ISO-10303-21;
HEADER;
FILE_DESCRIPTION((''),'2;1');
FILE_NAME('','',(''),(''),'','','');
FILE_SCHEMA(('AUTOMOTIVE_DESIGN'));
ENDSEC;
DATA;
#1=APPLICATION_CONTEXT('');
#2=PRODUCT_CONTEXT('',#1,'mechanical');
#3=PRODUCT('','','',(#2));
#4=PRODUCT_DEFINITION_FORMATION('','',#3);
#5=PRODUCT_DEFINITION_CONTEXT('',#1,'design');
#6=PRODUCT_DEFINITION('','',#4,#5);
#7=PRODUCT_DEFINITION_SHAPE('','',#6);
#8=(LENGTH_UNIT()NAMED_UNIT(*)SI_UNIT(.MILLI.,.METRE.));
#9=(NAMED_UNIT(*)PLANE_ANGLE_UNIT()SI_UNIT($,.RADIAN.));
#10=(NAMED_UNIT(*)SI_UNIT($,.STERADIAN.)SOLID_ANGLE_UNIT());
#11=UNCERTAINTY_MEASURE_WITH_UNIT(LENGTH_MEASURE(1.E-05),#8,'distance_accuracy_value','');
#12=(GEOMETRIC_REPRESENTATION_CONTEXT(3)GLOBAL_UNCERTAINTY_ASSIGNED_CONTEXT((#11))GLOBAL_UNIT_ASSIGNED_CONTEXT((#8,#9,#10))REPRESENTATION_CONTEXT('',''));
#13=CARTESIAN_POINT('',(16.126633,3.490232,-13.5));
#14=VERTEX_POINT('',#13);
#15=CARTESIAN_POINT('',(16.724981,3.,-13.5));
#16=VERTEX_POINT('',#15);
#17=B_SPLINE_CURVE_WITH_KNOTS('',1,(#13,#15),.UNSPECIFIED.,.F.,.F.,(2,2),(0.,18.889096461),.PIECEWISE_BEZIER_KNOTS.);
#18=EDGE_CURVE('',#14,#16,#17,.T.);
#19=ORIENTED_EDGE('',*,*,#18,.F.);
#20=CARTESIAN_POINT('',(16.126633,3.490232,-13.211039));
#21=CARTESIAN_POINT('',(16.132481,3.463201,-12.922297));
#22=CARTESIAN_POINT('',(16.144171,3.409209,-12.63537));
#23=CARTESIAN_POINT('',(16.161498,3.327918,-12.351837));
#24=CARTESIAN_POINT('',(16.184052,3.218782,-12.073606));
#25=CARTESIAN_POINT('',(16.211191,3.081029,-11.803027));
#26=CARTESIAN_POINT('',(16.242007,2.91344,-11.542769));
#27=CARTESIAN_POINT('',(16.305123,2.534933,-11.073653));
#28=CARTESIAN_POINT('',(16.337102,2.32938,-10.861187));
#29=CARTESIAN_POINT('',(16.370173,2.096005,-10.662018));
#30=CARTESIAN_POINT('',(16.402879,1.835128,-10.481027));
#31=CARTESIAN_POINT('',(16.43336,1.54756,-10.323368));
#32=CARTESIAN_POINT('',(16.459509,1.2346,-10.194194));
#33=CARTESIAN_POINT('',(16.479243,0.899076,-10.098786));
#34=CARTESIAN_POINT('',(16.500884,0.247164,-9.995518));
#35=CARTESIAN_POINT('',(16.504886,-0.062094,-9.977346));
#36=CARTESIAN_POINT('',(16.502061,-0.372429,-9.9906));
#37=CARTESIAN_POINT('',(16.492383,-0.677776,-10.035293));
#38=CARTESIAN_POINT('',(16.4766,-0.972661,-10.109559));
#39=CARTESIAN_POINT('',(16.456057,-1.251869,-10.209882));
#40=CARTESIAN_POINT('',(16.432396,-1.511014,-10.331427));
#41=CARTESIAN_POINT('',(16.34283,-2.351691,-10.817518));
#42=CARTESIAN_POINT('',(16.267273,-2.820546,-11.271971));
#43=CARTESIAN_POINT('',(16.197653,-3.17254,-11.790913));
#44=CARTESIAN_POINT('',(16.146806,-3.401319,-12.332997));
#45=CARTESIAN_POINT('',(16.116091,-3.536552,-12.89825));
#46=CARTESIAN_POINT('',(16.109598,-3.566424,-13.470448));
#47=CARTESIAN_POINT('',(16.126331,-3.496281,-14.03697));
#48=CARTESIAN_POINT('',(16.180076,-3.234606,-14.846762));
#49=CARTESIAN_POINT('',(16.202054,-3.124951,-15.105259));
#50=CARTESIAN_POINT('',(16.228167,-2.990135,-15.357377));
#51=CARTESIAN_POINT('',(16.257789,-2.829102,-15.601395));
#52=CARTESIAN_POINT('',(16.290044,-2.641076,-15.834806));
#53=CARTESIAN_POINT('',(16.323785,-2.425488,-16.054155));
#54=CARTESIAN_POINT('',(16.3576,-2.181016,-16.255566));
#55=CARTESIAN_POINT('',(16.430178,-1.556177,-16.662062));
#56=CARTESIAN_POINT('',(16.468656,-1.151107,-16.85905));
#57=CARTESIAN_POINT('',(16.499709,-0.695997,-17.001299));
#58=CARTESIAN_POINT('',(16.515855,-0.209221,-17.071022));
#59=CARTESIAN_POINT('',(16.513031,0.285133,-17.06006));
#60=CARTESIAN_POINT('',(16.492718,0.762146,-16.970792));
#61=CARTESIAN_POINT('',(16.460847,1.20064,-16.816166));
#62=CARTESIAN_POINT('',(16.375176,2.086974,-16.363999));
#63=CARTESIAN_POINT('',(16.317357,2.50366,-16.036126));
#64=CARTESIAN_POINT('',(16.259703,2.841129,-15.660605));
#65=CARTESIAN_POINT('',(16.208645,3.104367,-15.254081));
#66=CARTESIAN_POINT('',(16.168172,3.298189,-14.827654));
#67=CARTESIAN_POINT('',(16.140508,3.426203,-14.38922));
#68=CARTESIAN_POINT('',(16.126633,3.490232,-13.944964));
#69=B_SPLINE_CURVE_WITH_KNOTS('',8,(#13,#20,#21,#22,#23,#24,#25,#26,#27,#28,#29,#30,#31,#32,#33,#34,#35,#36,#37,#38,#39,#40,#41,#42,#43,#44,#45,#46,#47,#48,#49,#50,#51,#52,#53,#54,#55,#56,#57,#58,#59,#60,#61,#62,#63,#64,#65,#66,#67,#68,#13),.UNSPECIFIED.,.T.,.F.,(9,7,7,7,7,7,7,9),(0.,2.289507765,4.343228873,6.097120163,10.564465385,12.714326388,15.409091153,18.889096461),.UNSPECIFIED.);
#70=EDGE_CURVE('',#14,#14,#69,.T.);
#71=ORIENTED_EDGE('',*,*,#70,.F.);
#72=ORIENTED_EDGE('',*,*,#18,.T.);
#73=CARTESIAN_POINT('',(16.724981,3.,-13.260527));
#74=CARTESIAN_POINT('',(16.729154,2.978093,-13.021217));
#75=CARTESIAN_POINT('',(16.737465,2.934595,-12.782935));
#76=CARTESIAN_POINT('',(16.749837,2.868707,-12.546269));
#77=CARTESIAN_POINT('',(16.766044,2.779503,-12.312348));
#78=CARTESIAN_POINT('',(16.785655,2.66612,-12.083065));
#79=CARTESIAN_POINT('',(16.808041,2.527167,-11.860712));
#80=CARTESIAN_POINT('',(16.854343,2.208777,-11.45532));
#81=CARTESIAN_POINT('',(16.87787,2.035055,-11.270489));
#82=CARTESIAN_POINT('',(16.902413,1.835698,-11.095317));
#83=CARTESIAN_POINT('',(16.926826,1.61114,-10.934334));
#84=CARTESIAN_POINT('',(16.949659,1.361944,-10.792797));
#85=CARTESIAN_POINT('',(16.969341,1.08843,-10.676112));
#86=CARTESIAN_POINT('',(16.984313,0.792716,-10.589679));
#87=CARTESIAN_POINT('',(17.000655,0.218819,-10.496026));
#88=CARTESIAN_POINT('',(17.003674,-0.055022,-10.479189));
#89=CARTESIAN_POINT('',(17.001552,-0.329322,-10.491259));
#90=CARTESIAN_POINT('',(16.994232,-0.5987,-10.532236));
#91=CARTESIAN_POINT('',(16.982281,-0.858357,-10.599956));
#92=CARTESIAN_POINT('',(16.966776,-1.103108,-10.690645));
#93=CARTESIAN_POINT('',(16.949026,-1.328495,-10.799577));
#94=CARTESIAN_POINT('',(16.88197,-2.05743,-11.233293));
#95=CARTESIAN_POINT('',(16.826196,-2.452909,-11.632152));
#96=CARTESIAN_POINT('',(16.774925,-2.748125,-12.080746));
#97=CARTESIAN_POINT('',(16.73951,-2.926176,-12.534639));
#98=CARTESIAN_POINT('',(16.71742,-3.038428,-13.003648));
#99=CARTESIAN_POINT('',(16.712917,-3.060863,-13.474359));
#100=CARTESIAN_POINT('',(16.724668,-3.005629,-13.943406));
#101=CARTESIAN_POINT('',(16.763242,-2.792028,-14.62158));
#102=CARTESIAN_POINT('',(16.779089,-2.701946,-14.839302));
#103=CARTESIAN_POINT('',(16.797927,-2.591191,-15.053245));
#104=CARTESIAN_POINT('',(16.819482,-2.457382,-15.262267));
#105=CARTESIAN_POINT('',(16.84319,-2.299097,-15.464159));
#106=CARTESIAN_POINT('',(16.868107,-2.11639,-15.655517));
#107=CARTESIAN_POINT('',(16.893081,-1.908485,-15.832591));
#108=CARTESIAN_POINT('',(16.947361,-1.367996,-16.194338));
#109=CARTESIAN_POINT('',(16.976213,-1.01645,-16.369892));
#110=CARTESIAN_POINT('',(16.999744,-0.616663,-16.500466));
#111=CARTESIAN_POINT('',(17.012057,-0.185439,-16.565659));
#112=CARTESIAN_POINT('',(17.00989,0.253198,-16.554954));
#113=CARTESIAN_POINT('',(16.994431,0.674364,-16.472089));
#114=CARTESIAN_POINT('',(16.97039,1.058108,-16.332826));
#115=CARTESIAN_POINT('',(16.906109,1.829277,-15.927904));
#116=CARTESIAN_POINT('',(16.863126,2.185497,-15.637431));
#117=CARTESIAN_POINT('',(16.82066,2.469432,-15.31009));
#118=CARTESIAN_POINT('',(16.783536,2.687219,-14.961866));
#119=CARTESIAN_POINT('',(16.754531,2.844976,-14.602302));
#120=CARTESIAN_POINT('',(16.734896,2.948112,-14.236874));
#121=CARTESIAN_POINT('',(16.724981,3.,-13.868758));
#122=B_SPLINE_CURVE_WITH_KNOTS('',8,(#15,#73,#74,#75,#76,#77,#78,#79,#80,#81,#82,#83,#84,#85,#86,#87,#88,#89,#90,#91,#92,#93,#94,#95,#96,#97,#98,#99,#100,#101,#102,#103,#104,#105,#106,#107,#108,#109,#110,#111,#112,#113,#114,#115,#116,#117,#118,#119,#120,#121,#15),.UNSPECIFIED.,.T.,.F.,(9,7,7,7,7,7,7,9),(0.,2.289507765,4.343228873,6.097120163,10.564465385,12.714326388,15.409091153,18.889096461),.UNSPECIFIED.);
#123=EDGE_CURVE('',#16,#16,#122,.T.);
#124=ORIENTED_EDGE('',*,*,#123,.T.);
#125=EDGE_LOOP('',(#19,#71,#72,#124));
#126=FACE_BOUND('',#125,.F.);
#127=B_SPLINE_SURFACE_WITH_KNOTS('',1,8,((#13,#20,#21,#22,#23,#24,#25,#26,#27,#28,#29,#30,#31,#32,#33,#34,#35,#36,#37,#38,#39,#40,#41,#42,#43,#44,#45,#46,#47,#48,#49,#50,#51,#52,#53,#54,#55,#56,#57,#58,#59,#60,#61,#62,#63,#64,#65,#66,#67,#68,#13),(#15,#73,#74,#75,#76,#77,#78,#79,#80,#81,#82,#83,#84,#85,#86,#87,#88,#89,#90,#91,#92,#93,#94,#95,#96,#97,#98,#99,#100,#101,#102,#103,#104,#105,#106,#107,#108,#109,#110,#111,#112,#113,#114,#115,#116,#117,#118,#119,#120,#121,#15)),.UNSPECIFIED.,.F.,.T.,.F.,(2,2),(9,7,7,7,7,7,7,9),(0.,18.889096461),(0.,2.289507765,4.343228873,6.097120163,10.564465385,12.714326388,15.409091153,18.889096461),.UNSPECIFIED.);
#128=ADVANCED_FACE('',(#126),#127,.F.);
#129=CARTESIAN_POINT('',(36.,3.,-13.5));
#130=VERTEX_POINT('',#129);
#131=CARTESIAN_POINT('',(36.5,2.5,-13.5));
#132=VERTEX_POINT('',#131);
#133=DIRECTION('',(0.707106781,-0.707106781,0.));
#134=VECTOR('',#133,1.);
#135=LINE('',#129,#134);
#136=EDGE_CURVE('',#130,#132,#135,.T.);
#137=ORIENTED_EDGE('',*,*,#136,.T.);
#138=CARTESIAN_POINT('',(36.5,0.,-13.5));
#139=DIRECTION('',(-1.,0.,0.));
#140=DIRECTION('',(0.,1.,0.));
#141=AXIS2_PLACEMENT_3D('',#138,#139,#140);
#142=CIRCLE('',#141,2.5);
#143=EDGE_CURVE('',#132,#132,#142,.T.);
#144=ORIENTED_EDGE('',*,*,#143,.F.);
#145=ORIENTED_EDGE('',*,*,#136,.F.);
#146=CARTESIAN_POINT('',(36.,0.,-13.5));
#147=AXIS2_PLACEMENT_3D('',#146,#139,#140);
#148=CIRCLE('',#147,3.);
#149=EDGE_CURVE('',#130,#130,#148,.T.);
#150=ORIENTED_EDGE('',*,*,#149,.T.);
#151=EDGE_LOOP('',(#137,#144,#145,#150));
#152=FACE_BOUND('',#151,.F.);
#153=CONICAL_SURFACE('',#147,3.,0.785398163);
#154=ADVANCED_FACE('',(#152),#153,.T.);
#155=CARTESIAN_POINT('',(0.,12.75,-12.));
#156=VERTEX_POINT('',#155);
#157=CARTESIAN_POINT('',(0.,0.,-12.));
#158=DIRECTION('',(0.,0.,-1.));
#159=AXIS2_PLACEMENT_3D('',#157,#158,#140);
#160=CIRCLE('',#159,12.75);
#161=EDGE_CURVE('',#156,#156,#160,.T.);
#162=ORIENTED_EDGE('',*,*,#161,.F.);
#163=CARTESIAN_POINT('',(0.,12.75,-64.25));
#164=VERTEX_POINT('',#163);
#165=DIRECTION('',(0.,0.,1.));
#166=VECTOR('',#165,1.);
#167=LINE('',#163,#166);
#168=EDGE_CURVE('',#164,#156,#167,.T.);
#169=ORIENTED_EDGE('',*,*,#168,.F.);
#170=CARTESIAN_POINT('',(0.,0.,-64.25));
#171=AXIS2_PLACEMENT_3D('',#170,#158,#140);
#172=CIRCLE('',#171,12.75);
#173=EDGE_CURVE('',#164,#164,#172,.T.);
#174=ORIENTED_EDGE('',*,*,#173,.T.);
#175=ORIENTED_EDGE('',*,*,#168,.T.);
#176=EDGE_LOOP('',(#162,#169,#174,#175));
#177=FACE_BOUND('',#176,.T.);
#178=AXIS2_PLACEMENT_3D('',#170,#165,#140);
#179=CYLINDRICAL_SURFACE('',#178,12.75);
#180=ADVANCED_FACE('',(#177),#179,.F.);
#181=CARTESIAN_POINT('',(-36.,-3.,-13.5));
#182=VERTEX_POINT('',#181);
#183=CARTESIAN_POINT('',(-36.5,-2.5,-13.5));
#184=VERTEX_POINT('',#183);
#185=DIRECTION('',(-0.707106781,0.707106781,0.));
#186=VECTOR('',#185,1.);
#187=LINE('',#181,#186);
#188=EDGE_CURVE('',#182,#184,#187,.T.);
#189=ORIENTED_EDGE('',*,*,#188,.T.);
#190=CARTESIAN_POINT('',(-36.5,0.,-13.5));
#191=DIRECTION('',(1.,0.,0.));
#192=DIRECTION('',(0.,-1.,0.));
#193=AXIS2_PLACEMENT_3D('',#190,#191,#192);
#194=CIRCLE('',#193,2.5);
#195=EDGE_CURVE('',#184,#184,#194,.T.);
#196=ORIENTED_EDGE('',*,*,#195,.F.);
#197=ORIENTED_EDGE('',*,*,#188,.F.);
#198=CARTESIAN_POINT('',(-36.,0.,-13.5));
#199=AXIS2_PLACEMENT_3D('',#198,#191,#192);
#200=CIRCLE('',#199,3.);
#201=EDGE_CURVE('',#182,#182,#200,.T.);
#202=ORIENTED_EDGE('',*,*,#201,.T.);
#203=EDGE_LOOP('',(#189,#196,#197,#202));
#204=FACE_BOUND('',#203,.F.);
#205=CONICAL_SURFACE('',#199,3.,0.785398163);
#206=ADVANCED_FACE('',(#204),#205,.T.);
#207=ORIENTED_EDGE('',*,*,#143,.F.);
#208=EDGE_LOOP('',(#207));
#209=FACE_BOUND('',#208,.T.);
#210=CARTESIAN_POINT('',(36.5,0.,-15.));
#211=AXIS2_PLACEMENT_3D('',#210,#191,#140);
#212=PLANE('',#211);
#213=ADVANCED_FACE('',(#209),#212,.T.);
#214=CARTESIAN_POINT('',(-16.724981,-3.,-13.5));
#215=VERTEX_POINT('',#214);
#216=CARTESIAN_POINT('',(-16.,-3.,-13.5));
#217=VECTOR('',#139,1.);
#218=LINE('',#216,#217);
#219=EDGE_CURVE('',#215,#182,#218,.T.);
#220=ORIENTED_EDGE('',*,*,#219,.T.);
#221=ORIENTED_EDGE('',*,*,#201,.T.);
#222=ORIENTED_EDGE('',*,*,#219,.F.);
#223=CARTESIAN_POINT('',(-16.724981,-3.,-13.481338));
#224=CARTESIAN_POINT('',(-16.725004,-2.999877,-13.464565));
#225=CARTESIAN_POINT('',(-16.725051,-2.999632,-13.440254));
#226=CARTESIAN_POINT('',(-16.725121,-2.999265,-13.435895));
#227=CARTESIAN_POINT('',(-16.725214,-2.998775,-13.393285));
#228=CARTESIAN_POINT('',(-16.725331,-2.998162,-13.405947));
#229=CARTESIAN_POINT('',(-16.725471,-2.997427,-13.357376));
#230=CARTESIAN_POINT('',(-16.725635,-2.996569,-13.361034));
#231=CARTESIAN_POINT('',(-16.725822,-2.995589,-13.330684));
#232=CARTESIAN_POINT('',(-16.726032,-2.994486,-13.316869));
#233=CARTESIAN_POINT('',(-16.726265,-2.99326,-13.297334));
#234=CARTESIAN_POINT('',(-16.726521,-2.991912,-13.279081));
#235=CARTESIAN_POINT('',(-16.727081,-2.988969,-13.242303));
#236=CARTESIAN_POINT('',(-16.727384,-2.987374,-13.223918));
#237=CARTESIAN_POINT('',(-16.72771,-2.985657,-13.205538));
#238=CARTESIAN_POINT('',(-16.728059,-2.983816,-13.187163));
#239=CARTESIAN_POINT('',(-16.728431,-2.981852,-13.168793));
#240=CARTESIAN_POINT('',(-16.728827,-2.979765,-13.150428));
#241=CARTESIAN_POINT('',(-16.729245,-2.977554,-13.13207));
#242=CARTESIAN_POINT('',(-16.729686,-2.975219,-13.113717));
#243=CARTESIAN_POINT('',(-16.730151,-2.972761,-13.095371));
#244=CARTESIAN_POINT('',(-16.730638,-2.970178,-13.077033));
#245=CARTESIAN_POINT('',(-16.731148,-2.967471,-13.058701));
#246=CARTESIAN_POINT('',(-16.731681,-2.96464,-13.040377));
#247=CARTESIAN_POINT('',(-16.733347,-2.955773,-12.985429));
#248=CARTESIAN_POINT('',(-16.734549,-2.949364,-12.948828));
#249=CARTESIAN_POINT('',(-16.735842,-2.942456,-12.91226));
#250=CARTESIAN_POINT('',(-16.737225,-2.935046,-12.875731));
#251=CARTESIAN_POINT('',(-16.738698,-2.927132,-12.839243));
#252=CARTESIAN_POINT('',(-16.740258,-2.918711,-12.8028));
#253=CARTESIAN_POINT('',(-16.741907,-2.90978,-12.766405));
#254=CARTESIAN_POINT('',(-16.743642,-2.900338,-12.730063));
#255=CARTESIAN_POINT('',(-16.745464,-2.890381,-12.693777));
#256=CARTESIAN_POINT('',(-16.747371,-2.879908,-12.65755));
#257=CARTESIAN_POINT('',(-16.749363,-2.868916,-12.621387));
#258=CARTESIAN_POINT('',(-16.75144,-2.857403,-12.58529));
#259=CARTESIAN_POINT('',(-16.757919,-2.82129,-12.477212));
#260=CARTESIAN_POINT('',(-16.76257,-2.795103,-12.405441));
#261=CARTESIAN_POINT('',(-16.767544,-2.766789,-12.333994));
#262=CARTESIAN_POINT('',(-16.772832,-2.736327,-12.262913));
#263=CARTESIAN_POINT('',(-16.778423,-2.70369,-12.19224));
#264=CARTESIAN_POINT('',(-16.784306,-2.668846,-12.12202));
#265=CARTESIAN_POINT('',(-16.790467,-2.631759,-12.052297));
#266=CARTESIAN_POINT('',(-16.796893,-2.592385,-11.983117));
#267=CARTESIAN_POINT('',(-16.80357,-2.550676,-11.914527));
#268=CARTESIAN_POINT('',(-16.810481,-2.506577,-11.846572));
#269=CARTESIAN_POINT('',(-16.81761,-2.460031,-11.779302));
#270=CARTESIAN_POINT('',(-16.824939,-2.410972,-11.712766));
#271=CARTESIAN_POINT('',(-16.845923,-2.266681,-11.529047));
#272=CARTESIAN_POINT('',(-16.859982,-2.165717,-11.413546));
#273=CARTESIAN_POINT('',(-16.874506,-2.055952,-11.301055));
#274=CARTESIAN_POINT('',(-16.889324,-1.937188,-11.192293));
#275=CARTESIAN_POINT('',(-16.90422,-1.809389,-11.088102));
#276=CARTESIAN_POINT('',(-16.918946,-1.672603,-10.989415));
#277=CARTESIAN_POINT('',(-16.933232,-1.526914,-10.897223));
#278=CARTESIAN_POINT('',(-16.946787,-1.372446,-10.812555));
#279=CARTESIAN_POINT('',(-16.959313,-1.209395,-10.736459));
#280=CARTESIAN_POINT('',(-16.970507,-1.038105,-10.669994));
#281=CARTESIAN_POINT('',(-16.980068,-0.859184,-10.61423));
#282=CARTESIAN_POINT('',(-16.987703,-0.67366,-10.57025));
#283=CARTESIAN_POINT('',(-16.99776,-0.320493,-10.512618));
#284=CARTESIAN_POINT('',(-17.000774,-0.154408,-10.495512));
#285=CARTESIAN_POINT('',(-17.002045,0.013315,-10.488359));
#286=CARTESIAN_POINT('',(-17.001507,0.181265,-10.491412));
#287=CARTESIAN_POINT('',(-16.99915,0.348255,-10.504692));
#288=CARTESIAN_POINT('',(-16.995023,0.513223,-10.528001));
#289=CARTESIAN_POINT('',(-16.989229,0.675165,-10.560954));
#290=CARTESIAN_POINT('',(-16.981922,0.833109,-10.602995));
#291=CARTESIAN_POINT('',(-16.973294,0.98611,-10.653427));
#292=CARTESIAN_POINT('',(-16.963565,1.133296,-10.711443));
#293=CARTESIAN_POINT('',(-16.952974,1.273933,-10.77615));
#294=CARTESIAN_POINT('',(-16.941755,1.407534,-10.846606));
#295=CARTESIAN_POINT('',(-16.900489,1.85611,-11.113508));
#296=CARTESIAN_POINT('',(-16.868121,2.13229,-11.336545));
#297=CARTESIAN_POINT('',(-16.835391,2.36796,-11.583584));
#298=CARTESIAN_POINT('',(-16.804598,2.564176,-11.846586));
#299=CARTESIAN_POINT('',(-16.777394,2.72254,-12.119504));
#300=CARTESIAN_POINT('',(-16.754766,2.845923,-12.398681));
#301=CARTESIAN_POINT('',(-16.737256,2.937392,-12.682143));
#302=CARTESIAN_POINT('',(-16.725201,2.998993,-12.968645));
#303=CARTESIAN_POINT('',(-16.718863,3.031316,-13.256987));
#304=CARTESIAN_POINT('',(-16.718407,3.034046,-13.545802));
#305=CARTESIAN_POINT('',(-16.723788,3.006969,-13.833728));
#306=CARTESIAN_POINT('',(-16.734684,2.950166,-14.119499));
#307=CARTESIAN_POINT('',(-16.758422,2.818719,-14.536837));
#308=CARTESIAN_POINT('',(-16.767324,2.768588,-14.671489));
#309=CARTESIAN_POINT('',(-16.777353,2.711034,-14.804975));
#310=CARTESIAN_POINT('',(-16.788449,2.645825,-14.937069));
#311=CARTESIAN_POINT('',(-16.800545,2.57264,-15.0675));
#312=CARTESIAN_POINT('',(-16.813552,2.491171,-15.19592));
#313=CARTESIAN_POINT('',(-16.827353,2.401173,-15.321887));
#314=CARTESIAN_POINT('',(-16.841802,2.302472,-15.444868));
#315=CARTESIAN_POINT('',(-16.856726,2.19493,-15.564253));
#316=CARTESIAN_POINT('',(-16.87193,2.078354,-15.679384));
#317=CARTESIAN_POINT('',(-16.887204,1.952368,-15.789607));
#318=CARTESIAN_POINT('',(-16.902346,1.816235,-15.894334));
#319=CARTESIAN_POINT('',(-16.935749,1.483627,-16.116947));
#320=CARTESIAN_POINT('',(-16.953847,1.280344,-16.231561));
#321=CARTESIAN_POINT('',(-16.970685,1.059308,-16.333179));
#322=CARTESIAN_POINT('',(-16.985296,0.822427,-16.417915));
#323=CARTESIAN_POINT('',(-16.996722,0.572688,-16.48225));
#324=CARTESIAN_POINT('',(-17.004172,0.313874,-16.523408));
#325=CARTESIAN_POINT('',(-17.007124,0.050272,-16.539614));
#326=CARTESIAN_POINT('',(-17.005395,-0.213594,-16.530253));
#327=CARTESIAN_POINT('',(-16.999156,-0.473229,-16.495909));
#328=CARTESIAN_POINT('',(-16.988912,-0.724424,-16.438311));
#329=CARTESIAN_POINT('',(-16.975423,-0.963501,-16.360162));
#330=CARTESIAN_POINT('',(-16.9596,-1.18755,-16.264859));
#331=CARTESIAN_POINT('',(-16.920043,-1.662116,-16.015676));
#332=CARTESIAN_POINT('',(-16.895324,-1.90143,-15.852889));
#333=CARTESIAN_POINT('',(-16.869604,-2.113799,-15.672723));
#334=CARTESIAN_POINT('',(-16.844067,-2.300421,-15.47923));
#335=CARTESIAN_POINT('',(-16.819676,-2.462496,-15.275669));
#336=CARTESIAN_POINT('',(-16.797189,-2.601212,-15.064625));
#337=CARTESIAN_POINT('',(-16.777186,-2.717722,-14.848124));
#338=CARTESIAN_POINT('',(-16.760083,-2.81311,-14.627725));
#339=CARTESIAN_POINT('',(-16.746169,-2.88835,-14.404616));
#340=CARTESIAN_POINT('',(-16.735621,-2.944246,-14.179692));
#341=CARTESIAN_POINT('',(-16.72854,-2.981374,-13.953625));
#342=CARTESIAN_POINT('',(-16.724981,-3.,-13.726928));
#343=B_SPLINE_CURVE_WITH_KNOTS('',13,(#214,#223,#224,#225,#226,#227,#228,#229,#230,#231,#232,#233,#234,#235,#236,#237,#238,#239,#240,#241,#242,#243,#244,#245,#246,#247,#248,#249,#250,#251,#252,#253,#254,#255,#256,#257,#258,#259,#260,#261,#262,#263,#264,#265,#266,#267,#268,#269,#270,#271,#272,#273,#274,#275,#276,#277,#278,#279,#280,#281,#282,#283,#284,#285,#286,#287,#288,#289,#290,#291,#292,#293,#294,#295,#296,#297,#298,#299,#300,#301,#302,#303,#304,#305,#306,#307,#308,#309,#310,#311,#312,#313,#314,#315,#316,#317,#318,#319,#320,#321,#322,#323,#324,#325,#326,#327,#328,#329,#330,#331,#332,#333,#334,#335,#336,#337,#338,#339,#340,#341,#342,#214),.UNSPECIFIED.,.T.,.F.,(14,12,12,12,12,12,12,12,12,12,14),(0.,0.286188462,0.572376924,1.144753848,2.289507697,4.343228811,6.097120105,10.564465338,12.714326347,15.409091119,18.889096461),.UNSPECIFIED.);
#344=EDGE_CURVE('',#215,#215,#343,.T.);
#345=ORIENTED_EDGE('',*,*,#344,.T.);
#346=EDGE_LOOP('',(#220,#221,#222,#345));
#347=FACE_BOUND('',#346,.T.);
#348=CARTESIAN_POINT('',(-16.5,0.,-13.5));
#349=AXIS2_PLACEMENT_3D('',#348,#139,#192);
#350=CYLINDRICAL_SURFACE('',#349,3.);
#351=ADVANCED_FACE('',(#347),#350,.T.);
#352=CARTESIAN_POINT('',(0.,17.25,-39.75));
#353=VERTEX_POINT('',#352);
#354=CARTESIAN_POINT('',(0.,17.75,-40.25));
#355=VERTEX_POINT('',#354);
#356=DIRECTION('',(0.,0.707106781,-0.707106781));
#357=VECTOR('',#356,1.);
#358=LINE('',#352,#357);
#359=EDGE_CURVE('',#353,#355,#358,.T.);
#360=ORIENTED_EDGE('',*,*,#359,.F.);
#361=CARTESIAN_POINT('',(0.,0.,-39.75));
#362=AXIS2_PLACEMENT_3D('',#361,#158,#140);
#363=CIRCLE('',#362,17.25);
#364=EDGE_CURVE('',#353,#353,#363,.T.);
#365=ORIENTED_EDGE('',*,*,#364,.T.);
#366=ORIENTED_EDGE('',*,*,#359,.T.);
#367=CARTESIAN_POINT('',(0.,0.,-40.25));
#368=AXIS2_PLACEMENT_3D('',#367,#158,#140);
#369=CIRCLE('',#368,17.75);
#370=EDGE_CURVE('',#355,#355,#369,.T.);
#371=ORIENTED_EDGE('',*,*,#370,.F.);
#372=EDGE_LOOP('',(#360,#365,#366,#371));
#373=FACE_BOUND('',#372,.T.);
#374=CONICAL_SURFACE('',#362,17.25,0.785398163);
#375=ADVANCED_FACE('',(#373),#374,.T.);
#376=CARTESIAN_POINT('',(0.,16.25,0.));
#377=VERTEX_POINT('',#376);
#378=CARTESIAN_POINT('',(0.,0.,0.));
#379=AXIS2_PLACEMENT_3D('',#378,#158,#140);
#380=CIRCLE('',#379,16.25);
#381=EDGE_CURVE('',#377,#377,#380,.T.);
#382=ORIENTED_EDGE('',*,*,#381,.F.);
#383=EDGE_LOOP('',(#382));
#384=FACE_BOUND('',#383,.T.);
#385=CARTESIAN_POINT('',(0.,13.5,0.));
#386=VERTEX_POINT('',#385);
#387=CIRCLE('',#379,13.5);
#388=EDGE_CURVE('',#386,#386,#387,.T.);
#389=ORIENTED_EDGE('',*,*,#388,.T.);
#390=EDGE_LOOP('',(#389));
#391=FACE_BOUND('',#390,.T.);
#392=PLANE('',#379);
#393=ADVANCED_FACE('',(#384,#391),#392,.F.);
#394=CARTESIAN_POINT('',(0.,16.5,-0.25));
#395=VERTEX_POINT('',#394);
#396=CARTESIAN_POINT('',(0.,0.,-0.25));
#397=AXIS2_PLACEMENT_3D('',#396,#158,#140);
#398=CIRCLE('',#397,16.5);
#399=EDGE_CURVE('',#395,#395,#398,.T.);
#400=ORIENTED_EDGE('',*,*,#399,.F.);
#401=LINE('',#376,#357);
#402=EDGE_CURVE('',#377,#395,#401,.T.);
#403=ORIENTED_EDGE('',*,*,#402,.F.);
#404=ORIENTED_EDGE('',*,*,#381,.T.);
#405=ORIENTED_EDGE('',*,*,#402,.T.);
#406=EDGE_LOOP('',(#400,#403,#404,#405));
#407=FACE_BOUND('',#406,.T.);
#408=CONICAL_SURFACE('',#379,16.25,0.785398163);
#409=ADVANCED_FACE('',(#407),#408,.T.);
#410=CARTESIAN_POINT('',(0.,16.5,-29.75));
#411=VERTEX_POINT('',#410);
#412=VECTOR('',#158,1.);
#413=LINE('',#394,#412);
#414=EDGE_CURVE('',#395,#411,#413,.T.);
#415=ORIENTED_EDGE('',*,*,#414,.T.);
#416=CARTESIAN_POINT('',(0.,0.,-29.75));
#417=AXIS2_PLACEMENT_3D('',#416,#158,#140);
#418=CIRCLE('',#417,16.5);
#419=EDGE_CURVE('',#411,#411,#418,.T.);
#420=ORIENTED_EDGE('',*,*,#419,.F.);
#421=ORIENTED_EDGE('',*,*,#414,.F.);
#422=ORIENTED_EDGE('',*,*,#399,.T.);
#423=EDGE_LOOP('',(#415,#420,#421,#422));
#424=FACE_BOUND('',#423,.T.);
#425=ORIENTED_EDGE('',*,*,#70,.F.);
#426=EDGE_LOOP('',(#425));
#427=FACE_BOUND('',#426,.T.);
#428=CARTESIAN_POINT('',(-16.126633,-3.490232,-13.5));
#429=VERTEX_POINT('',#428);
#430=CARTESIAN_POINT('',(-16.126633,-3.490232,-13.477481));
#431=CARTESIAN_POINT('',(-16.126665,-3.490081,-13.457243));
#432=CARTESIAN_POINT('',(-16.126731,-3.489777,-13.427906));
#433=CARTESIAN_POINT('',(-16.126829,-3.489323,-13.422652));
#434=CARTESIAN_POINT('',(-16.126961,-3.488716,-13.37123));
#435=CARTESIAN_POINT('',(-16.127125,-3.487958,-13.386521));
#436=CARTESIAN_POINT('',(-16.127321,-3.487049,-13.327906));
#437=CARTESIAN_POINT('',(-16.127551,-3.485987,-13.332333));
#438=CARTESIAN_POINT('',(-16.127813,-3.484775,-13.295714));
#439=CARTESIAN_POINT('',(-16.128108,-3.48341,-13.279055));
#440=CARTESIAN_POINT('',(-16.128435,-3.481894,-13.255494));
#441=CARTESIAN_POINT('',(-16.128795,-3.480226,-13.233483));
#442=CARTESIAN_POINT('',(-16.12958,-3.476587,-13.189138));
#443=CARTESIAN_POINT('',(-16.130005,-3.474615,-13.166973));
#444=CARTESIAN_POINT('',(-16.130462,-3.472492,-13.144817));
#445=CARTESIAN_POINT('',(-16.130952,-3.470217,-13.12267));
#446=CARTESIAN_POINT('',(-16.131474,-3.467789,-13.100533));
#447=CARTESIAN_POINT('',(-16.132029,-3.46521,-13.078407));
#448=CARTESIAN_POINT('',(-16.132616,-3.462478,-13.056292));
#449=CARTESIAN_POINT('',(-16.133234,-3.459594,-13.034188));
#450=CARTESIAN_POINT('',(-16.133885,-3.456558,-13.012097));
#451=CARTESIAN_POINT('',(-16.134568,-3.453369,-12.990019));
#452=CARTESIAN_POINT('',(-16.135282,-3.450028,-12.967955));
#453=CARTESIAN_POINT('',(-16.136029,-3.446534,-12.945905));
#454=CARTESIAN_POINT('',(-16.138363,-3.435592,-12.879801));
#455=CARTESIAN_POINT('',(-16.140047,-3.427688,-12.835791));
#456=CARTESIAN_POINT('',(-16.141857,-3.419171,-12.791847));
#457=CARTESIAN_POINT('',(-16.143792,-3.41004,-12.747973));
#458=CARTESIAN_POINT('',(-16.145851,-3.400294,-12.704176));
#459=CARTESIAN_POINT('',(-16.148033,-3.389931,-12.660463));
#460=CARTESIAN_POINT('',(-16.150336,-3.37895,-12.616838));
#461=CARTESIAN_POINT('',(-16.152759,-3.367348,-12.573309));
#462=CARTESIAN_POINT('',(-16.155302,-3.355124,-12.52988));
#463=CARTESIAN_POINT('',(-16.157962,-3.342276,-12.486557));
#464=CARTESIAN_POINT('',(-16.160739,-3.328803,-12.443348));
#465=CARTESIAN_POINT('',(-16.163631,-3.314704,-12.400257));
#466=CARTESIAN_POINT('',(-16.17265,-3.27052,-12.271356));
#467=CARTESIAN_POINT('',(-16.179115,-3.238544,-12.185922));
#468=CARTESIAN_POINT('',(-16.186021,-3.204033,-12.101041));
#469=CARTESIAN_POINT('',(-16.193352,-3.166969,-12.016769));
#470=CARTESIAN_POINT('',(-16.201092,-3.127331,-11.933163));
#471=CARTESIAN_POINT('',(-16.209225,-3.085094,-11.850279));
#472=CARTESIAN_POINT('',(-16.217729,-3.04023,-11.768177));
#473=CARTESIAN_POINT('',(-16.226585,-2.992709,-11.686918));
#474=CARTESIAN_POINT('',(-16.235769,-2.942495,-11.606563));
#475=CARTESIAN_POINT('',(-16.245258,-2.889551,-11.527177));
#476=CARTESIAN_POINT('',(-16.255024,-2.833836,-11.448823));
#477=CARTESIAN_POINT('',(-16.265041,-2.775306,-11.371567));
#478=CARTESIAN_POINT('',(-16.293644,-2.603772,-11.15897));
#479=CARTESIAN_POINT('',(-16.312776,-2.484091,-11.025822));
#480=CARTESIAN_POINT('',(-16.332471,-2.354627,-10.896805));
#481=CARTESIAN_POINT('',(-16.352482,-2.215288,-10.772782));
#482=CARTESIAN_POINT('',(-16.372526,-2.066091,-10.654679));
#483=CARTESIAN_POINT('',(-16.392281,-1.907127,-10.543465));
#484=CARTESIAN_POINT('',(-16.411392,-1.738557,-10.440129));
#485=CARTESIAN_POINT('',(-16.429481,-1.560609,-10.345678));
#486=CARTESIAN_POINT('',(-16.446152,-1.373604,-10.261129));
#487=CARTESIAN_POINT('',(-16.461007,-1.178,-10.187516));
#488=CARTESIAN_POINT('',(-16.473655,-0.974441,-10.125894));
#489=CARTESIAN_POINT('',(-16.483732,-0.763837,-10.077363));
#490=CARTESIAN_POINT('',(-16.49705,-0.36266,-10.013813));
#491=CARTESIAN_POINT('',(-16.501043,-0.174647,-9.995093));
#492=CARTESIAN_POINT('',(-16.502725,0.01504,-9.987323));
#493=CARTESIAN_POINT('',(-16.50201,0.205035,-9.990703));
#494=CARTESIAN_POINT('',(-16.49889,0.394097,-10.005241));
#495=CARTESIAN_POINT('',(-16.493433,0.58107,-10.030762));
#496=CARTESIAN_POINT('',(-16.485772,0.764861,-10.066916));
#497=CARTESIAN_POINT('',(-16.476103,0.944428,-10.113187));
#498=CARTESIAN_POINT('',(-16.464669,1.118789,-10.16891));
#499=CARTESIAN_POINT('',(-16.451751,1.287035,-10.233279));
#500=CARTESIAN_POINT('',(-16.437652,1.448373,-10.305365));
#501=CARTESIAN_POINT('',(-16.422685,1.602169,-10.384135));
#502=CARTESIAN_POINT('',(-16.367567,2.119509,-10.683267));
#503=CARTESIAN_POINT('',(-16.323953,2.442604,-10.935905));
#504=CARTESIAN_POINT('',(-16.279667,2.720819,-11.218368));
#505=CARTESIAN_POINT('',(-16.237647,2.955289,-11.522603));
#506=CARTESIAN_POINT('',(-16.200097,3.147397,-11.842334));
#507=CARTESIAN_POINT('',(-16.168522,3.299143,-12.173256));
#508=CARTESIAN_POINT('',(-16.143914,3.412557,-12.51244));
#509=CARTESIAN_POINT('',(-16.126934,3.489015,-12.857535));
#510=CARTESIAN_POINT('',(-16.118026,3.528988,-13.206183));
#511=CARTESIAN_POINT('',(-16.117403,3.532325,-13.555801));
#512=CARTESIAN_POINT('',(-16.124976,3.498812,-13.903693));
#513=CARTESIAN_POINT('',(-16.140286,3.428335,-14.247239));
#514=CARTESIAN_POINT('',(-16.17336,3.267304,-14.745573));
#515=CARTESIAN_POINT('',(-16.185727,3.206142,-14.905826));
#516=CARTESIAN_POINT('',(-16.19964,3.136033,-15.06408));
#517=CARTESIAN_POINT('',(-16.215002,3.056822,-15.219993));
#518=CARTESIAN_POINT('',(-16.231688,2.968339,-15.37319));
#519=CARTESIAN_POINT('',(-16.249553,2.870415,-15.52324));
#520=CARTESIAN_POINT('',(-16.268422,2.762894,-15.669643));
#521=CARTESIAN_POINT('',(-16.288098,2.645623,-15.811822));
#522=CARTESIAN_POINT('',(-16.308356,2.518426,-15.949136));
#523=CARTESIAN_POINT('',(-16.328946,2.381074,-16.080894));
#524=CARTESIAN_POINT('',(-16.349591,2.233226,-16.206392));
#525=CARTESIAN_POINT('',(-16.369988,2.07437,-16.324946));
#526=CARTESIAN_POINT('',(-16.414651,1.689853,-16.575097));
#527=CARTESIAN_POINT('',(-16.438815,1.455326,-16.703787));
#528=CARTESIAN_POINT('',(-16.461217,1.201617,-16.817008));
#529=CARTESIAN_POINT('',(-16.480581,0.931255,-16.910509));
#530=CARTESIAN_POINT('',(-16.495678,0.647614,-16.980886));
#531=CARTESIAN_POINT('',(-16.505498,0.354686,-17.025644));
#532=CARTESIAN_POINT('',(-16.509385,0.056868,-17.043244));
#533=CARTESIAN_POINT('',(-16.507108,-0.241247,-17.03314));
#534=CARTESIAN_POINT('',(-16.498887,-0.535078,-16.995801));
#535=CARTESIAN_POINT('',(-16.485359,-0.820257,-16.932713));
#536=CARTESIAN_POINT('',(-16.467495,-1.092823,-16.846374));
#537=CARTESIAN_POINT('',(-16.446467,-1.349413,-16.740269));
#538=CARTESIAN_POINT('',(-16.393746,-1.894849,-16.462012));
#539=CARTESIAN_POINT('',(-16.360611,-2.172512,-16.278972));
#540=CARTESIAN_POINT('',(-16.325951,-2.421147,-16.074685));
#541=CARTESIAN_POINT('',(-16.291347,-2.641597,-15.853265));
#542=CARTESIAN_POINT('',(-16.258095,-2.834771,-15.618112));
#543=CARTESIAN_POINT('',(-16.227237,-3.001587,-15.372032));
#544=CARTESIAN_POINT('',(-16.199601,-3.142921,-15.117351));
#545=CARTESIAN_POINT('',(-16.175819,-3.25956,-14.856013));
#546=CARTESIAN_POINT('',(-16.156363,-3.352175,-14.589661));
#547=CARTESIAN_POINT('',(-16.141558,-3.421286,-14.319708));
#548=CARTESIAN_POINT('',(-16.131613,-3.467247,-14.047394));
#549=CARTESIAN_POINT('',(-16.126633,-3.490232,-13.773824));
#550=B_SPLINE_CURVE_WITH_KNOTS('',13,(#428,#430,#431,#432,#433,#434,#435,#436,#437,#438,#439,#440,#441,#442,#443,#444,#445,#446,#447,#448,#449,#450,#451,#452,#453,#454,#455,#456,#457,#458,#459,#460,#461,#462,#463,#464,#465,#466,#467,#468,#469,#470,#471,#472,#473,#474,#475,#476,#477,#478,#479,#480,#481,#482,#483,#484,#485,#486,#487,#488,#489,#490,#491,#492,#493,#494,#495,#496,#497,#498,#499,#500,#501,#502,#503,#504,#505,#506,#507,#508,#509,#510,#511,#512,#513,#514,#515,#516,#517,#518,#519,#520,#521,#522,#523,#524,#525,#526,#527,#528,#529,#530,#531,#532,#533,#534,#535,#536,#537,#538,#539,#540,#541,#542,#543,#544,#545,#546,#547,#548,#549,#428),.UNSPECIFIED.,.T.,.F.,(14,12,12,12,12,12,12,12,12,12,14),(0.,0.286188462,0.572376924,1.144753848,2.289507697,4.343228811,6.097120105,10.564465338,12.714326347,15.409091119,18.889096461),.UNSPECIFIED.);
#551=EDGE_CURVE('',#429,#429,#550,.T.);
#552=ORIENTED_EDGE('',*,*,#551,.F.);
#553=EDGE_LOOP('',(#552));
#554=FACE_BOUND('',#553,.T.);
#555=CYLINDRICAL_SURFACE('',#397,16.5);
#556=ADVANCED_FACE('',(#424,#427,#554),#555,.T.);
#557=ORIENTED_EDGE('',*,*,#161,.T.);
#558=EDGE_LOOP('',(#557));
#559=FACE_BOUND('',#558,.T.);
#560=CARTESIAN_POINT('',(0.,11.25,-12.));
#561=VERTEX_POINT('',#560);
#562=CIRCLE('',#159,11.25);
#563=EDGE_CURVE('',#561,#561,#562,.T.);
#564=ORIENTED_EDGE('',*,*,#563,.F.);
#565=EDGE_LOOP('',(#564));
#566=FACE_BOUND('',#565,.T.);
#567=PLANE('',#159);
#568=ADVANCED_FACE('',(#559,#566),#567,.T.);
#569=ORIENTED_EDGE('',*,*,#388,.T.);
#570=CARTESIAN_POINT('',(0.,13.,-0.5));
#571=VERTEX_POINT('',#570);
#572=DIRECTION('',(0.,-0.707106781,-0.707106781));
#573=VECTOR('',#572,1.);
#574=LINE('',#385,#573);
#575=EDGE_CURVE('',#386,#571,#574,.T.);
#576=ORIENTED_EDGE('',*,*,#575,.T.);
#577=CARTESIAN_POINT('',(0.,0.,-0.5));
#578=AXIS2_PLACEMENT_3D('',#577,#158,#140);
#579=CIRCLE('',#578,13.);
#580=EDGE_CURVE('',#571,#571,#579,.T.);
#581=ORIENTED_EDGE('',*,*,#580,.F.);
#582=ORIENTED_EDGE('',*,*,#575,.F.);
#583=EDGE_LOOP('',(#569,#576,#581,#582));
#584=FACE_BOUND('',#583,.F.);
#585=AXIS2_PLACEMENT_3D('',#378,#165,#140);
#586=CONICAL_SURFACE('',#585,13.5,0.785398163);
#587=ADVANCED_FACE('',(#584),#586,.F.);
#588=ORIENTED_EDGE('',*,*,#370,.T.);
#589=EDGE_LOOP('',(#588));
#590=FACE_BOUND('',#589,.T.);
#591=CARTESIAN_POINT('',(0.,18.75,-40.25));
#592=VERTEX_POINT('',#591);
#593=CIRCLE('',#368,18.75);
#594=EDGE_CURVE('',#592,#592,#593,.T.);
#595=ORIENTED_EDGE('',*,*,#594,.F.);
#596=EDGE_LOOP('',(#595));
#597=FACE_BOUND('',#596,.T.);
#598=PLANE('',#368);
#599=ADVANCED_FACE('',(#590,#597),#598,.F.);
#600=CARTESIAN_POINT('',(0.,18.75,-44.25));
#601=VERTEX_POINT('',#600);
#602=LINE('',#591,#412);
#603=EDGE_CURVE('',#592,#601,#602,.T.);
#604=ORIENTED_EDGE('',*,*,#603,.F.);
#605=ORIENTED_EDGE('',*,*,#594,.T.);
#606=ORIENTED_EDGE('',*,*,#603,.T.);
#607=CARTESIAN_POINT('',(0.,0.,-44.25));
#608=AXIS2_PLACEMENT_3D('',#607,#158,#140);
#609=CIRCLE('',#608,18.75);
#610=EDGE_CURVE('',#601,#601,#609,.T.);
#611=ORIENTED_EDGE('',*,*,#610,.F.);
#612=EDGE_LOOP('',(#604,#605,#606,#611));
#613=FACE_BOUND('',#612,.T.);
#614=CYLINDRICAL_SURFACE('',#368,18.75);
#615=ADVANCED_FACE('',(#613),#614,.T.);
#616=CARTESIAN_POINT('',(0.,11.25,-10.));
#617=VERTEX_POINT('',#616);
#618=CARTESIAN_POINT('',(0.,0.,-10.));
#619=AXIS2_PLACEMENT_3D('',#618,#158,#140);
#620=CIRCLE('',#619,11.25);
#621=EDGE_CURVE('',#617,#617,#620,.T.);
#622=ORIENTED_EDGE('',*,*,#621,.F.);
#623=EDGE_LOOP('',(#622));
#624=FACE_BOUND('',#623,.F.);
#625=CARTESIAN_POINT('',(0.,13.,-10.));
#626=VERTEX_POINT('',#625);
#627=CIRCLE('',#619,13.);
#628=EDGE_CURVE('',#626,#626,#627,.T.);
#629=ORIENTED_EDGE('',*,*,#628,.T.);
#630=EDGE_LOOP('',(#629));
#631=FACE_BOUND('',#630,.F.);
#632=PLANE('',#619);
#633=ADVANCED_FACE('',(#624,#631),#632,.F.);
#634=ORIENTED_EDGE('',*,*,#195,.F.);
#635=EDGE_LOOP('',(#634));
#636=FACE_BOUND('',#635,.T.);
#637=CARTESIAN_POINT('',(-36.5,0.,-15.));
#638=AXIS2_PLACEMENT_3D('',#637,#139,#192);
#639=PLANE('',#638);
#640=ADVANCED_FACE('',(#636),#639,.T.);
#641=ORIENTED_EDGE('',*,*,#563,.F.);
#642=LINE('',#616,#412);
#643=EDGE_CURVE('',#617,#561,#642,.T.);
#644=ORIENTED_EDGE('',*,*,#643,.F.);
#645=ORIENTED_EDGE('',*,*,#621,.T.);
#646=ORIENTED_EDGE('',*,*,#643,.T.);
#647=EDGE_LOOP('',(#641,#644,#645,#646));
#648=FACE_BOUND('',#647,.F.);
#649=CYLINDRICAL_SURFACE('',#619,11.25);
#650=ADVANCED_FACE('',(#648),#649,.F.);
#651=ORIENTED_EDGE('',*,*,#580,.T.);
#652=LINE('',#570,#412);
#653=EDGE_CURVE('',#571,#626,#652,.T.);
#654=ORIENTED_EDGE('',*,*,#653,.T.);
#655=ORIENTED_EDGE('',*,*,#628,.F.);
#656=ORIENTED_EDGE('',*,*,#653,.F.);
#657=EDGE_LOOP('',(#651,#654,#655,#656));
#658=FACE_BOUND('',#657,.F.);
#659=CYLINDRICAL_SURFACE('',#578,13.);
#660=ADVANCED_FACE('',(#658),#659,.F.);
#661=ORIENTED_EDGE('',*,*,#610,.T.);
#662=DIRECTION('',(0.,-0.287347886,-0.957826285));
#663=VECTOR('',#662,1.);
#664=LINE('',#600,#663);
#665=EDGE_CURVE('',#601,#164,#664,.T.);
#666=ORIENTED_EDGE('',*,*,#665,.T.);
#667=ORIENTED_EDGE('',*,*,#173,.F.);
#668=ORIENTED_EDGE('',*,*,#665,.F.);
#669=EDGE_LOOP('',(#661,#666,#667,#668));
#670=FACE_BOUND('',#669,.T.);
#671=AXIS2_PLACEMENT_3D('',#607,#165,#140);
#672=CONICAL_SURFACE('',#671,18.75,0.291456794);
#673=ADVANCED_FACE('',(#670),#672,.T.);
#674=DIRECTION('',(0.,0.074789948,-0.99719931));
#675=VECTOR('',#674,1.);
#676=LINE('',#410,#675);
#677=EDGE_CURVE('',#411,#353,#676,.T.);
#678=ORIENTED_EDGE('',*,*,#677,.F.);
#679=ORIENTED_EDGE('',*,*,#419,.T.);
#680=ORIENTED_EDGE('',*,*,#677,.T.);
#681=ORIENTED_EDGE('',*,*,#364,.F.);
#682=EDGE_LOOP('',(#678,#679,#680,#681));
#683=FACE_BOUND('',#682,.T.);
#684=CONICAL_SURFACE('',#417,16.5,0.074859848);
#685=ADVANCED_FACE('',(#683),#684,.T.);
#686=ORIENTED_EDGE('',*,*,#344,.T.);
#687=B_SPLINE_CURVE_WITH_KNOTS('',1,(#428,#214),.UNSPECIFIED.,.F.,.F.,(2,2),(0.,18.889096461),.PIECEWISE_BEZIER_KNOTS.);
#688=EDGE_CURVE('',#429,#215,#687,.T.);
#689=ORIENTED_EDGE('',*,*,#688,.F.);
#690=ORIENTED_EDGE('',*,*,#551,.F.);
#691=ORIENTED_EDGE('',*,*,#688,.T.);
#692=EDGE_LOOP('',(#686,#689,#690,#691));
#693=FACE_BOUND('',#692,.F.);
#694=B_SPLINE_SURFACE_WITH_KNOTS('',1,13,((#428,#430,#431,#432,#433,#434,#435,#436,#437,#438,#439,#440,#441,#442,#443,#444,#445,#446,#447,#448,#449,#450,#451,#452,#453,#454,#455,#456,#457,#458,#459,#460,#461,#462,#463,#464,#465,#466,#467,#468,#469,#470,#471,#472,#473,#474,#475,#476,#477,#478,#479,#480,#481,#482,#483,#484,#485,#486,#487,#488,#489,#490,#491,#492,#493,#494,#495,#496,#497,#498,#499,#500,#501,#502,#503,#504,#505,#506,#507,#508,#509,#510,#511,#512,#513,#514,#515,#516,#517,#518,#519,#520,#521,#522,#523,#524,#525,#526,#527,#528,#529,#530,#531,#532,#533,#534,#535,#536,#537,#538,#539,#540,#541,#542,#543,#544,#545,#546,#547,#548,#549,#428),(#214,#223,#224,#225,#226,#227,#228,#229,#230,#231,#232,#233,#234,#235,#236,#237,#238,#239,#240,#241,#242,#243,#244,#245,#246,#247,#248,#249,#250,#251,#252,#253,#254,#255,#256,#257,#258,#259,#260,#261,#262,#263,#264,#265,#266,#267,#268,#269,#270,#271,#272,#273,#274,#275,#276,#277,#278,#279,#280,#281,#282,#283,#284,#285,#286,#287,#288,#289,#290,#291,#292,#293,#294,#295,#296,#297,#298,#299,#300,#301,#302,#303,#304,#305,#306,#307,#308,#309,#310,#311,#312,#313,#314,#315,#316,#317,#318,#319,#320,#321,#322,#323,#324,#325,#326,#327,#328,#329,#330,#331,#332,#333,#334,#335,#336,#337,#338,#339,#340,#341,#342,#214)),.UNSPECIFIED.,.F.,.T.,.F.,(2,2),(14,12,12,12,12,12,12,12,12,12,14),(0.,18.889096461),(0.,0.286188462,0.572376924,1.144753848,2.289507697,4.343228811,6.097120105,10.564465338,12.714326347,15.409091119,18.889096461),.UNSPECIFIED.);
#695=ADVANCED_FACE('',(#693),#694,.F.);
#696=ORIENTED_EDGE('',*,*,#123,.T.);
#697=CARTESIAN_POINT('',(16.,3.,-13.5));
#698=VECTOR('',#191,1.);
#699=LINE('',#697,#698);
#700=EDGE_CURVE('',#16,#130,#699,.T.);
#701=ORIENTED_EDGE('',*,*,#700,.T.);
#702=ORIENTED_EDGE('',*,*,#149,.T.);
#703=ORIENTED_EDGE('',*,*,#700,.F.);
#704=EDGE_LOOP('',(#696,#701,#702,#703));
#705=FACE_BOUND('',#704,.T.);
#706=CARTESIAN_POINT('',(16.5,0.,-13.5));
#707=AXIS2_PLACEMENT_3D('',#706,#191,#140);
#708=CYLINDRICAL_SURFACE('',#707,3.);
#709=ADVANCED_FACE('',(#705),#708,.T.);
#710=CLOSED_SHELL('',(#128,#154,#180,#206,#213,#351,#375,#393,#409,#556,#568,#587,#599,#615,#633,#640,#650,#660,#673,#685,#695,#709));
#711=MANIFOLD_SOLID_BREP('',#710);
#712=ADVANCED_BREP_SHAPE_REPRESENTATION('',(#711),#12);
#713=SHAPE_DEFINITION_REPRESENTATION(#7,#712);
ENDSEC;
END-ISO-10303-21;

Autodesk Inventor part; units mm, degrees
ref_plane "XZ Plane" through (0, 0, 0) normal (0, 1, 0) x (-1, 0, 0)
ref_plane "XY Plane" through (0, 0, 0) normal (0, 0, 1) x (1, 0, 0)
sketch "Esquisse1" plane through (0, 0, 0) normal (1, 0, 0) x (0, 1, 0)
  line L0 (0, 0) -> (0, -16.8642)
  line L1 (12.75, -0.5) -> (12.75, -10) construction
  line L2 (13, -0.5) -> (13, -10)
  line L3 (13.5, 0) -> (16.25, 0)
  line L4 (16.25, 0) -> (16.5, -0.25)
  line L5 (16.5, -0.25) -> (16.5, -29.75)
  line L6 (12.75, -64.25) -> (12.75, -12)
  line L7 (13, -10) -> (11.25, -10)
  line L8 (12.75, -12) -> (11.25, -12)
  line L9 (11.25, -10) -> (11.25, -12)
  line L10 (11, -10) -> (11, -12) construction
  line L11 (13.5, 0) -> (13, -0.5)
  line L12 (12.5, -12) -> (12.5, -64.25) construction
  line L13 (12.5, -0.5) -> (12.5, -10) construction
  line L14 (16.5, -29.75) -> (17.25, -39.75)
  line L15 (17.25, -39.75) -> (17.75, -40.25)
  line L16 (17.75, -40.25) -> (18.75, -40.25)
  line L17 (18.75, -40.25) -> (18.75, -44.25)
  line L18 (18.75, -44.25) -> (12.75, -64.25)
  dimension "d2" = 0.25
  dimension "d3" = 0.25
  dimension "d8" = 33
  dimension "d9" = 0.25
  dimension "d13" = 0.25
  dimension "d14" = 22
  dimension "d15" = 10
  dimension "d16" = 0.5
  dimension "d17" = 0.5
  dimension "d18" = 25
  dimension "d19" = 0.25
  dimension "d20" = 2
  dimension "d21" = 0.25
  dimension "d22" = 25
  dimension "d23" = 0.5
  dimension "d24" = 10
  dimension "d25" = 0.75
  dimension "d26" = 0.5
  dimension "d28" = 40.25
  dimension "d45" = 64.25
  dimension "d51" = 1
  dimension "d52" = 20
  dimension "d54" = 4
revolve "Révolution1" add sketch "Esquisse1" angle 360 about axis through (0, 0, 0) along (0, 0, -1)
ref_plane "Plan de construction1" through (16.5, 0, -15) normal (1, 0, 0) x (0, 1, 0)
sketch "Esquisse2" plane through (16.5, 0, -15) normal (1, 0, 0) x (0, 1, 0)
  circle A0 centre (0, 1.5) radius 3
  line L0 (0, -62.1) -> (0, 27.85) projected
  line L1 (-16.25, 15) -> (16.25, 15) projected
  point P0 (0, 15)
  dimension "d29" = 6
  dimension "d30" = 13.5
extrude "Extrusion1" add sketch "Esquisse2" along normal blind 20 and the other way blind 0.5
chamfer "Chanfrein1" distance 0.5 angle 45 4 edges at (36.5, -3, -13.5) (16.3413, 2.2832, -11.554) (16.225, -3, -13.4926) (16.3418, 2.2797, -15.4502)
pattern_circular "Réseau circulaire1" count 2 over 360 about axis through (0, 0, -10) along (0, 0, 1) of "Extrusion1", "Chanfrein1"
equation "\"d3\" = d2"
equation "\"d17\" = d16"
properties part number "canon_support_entree"
